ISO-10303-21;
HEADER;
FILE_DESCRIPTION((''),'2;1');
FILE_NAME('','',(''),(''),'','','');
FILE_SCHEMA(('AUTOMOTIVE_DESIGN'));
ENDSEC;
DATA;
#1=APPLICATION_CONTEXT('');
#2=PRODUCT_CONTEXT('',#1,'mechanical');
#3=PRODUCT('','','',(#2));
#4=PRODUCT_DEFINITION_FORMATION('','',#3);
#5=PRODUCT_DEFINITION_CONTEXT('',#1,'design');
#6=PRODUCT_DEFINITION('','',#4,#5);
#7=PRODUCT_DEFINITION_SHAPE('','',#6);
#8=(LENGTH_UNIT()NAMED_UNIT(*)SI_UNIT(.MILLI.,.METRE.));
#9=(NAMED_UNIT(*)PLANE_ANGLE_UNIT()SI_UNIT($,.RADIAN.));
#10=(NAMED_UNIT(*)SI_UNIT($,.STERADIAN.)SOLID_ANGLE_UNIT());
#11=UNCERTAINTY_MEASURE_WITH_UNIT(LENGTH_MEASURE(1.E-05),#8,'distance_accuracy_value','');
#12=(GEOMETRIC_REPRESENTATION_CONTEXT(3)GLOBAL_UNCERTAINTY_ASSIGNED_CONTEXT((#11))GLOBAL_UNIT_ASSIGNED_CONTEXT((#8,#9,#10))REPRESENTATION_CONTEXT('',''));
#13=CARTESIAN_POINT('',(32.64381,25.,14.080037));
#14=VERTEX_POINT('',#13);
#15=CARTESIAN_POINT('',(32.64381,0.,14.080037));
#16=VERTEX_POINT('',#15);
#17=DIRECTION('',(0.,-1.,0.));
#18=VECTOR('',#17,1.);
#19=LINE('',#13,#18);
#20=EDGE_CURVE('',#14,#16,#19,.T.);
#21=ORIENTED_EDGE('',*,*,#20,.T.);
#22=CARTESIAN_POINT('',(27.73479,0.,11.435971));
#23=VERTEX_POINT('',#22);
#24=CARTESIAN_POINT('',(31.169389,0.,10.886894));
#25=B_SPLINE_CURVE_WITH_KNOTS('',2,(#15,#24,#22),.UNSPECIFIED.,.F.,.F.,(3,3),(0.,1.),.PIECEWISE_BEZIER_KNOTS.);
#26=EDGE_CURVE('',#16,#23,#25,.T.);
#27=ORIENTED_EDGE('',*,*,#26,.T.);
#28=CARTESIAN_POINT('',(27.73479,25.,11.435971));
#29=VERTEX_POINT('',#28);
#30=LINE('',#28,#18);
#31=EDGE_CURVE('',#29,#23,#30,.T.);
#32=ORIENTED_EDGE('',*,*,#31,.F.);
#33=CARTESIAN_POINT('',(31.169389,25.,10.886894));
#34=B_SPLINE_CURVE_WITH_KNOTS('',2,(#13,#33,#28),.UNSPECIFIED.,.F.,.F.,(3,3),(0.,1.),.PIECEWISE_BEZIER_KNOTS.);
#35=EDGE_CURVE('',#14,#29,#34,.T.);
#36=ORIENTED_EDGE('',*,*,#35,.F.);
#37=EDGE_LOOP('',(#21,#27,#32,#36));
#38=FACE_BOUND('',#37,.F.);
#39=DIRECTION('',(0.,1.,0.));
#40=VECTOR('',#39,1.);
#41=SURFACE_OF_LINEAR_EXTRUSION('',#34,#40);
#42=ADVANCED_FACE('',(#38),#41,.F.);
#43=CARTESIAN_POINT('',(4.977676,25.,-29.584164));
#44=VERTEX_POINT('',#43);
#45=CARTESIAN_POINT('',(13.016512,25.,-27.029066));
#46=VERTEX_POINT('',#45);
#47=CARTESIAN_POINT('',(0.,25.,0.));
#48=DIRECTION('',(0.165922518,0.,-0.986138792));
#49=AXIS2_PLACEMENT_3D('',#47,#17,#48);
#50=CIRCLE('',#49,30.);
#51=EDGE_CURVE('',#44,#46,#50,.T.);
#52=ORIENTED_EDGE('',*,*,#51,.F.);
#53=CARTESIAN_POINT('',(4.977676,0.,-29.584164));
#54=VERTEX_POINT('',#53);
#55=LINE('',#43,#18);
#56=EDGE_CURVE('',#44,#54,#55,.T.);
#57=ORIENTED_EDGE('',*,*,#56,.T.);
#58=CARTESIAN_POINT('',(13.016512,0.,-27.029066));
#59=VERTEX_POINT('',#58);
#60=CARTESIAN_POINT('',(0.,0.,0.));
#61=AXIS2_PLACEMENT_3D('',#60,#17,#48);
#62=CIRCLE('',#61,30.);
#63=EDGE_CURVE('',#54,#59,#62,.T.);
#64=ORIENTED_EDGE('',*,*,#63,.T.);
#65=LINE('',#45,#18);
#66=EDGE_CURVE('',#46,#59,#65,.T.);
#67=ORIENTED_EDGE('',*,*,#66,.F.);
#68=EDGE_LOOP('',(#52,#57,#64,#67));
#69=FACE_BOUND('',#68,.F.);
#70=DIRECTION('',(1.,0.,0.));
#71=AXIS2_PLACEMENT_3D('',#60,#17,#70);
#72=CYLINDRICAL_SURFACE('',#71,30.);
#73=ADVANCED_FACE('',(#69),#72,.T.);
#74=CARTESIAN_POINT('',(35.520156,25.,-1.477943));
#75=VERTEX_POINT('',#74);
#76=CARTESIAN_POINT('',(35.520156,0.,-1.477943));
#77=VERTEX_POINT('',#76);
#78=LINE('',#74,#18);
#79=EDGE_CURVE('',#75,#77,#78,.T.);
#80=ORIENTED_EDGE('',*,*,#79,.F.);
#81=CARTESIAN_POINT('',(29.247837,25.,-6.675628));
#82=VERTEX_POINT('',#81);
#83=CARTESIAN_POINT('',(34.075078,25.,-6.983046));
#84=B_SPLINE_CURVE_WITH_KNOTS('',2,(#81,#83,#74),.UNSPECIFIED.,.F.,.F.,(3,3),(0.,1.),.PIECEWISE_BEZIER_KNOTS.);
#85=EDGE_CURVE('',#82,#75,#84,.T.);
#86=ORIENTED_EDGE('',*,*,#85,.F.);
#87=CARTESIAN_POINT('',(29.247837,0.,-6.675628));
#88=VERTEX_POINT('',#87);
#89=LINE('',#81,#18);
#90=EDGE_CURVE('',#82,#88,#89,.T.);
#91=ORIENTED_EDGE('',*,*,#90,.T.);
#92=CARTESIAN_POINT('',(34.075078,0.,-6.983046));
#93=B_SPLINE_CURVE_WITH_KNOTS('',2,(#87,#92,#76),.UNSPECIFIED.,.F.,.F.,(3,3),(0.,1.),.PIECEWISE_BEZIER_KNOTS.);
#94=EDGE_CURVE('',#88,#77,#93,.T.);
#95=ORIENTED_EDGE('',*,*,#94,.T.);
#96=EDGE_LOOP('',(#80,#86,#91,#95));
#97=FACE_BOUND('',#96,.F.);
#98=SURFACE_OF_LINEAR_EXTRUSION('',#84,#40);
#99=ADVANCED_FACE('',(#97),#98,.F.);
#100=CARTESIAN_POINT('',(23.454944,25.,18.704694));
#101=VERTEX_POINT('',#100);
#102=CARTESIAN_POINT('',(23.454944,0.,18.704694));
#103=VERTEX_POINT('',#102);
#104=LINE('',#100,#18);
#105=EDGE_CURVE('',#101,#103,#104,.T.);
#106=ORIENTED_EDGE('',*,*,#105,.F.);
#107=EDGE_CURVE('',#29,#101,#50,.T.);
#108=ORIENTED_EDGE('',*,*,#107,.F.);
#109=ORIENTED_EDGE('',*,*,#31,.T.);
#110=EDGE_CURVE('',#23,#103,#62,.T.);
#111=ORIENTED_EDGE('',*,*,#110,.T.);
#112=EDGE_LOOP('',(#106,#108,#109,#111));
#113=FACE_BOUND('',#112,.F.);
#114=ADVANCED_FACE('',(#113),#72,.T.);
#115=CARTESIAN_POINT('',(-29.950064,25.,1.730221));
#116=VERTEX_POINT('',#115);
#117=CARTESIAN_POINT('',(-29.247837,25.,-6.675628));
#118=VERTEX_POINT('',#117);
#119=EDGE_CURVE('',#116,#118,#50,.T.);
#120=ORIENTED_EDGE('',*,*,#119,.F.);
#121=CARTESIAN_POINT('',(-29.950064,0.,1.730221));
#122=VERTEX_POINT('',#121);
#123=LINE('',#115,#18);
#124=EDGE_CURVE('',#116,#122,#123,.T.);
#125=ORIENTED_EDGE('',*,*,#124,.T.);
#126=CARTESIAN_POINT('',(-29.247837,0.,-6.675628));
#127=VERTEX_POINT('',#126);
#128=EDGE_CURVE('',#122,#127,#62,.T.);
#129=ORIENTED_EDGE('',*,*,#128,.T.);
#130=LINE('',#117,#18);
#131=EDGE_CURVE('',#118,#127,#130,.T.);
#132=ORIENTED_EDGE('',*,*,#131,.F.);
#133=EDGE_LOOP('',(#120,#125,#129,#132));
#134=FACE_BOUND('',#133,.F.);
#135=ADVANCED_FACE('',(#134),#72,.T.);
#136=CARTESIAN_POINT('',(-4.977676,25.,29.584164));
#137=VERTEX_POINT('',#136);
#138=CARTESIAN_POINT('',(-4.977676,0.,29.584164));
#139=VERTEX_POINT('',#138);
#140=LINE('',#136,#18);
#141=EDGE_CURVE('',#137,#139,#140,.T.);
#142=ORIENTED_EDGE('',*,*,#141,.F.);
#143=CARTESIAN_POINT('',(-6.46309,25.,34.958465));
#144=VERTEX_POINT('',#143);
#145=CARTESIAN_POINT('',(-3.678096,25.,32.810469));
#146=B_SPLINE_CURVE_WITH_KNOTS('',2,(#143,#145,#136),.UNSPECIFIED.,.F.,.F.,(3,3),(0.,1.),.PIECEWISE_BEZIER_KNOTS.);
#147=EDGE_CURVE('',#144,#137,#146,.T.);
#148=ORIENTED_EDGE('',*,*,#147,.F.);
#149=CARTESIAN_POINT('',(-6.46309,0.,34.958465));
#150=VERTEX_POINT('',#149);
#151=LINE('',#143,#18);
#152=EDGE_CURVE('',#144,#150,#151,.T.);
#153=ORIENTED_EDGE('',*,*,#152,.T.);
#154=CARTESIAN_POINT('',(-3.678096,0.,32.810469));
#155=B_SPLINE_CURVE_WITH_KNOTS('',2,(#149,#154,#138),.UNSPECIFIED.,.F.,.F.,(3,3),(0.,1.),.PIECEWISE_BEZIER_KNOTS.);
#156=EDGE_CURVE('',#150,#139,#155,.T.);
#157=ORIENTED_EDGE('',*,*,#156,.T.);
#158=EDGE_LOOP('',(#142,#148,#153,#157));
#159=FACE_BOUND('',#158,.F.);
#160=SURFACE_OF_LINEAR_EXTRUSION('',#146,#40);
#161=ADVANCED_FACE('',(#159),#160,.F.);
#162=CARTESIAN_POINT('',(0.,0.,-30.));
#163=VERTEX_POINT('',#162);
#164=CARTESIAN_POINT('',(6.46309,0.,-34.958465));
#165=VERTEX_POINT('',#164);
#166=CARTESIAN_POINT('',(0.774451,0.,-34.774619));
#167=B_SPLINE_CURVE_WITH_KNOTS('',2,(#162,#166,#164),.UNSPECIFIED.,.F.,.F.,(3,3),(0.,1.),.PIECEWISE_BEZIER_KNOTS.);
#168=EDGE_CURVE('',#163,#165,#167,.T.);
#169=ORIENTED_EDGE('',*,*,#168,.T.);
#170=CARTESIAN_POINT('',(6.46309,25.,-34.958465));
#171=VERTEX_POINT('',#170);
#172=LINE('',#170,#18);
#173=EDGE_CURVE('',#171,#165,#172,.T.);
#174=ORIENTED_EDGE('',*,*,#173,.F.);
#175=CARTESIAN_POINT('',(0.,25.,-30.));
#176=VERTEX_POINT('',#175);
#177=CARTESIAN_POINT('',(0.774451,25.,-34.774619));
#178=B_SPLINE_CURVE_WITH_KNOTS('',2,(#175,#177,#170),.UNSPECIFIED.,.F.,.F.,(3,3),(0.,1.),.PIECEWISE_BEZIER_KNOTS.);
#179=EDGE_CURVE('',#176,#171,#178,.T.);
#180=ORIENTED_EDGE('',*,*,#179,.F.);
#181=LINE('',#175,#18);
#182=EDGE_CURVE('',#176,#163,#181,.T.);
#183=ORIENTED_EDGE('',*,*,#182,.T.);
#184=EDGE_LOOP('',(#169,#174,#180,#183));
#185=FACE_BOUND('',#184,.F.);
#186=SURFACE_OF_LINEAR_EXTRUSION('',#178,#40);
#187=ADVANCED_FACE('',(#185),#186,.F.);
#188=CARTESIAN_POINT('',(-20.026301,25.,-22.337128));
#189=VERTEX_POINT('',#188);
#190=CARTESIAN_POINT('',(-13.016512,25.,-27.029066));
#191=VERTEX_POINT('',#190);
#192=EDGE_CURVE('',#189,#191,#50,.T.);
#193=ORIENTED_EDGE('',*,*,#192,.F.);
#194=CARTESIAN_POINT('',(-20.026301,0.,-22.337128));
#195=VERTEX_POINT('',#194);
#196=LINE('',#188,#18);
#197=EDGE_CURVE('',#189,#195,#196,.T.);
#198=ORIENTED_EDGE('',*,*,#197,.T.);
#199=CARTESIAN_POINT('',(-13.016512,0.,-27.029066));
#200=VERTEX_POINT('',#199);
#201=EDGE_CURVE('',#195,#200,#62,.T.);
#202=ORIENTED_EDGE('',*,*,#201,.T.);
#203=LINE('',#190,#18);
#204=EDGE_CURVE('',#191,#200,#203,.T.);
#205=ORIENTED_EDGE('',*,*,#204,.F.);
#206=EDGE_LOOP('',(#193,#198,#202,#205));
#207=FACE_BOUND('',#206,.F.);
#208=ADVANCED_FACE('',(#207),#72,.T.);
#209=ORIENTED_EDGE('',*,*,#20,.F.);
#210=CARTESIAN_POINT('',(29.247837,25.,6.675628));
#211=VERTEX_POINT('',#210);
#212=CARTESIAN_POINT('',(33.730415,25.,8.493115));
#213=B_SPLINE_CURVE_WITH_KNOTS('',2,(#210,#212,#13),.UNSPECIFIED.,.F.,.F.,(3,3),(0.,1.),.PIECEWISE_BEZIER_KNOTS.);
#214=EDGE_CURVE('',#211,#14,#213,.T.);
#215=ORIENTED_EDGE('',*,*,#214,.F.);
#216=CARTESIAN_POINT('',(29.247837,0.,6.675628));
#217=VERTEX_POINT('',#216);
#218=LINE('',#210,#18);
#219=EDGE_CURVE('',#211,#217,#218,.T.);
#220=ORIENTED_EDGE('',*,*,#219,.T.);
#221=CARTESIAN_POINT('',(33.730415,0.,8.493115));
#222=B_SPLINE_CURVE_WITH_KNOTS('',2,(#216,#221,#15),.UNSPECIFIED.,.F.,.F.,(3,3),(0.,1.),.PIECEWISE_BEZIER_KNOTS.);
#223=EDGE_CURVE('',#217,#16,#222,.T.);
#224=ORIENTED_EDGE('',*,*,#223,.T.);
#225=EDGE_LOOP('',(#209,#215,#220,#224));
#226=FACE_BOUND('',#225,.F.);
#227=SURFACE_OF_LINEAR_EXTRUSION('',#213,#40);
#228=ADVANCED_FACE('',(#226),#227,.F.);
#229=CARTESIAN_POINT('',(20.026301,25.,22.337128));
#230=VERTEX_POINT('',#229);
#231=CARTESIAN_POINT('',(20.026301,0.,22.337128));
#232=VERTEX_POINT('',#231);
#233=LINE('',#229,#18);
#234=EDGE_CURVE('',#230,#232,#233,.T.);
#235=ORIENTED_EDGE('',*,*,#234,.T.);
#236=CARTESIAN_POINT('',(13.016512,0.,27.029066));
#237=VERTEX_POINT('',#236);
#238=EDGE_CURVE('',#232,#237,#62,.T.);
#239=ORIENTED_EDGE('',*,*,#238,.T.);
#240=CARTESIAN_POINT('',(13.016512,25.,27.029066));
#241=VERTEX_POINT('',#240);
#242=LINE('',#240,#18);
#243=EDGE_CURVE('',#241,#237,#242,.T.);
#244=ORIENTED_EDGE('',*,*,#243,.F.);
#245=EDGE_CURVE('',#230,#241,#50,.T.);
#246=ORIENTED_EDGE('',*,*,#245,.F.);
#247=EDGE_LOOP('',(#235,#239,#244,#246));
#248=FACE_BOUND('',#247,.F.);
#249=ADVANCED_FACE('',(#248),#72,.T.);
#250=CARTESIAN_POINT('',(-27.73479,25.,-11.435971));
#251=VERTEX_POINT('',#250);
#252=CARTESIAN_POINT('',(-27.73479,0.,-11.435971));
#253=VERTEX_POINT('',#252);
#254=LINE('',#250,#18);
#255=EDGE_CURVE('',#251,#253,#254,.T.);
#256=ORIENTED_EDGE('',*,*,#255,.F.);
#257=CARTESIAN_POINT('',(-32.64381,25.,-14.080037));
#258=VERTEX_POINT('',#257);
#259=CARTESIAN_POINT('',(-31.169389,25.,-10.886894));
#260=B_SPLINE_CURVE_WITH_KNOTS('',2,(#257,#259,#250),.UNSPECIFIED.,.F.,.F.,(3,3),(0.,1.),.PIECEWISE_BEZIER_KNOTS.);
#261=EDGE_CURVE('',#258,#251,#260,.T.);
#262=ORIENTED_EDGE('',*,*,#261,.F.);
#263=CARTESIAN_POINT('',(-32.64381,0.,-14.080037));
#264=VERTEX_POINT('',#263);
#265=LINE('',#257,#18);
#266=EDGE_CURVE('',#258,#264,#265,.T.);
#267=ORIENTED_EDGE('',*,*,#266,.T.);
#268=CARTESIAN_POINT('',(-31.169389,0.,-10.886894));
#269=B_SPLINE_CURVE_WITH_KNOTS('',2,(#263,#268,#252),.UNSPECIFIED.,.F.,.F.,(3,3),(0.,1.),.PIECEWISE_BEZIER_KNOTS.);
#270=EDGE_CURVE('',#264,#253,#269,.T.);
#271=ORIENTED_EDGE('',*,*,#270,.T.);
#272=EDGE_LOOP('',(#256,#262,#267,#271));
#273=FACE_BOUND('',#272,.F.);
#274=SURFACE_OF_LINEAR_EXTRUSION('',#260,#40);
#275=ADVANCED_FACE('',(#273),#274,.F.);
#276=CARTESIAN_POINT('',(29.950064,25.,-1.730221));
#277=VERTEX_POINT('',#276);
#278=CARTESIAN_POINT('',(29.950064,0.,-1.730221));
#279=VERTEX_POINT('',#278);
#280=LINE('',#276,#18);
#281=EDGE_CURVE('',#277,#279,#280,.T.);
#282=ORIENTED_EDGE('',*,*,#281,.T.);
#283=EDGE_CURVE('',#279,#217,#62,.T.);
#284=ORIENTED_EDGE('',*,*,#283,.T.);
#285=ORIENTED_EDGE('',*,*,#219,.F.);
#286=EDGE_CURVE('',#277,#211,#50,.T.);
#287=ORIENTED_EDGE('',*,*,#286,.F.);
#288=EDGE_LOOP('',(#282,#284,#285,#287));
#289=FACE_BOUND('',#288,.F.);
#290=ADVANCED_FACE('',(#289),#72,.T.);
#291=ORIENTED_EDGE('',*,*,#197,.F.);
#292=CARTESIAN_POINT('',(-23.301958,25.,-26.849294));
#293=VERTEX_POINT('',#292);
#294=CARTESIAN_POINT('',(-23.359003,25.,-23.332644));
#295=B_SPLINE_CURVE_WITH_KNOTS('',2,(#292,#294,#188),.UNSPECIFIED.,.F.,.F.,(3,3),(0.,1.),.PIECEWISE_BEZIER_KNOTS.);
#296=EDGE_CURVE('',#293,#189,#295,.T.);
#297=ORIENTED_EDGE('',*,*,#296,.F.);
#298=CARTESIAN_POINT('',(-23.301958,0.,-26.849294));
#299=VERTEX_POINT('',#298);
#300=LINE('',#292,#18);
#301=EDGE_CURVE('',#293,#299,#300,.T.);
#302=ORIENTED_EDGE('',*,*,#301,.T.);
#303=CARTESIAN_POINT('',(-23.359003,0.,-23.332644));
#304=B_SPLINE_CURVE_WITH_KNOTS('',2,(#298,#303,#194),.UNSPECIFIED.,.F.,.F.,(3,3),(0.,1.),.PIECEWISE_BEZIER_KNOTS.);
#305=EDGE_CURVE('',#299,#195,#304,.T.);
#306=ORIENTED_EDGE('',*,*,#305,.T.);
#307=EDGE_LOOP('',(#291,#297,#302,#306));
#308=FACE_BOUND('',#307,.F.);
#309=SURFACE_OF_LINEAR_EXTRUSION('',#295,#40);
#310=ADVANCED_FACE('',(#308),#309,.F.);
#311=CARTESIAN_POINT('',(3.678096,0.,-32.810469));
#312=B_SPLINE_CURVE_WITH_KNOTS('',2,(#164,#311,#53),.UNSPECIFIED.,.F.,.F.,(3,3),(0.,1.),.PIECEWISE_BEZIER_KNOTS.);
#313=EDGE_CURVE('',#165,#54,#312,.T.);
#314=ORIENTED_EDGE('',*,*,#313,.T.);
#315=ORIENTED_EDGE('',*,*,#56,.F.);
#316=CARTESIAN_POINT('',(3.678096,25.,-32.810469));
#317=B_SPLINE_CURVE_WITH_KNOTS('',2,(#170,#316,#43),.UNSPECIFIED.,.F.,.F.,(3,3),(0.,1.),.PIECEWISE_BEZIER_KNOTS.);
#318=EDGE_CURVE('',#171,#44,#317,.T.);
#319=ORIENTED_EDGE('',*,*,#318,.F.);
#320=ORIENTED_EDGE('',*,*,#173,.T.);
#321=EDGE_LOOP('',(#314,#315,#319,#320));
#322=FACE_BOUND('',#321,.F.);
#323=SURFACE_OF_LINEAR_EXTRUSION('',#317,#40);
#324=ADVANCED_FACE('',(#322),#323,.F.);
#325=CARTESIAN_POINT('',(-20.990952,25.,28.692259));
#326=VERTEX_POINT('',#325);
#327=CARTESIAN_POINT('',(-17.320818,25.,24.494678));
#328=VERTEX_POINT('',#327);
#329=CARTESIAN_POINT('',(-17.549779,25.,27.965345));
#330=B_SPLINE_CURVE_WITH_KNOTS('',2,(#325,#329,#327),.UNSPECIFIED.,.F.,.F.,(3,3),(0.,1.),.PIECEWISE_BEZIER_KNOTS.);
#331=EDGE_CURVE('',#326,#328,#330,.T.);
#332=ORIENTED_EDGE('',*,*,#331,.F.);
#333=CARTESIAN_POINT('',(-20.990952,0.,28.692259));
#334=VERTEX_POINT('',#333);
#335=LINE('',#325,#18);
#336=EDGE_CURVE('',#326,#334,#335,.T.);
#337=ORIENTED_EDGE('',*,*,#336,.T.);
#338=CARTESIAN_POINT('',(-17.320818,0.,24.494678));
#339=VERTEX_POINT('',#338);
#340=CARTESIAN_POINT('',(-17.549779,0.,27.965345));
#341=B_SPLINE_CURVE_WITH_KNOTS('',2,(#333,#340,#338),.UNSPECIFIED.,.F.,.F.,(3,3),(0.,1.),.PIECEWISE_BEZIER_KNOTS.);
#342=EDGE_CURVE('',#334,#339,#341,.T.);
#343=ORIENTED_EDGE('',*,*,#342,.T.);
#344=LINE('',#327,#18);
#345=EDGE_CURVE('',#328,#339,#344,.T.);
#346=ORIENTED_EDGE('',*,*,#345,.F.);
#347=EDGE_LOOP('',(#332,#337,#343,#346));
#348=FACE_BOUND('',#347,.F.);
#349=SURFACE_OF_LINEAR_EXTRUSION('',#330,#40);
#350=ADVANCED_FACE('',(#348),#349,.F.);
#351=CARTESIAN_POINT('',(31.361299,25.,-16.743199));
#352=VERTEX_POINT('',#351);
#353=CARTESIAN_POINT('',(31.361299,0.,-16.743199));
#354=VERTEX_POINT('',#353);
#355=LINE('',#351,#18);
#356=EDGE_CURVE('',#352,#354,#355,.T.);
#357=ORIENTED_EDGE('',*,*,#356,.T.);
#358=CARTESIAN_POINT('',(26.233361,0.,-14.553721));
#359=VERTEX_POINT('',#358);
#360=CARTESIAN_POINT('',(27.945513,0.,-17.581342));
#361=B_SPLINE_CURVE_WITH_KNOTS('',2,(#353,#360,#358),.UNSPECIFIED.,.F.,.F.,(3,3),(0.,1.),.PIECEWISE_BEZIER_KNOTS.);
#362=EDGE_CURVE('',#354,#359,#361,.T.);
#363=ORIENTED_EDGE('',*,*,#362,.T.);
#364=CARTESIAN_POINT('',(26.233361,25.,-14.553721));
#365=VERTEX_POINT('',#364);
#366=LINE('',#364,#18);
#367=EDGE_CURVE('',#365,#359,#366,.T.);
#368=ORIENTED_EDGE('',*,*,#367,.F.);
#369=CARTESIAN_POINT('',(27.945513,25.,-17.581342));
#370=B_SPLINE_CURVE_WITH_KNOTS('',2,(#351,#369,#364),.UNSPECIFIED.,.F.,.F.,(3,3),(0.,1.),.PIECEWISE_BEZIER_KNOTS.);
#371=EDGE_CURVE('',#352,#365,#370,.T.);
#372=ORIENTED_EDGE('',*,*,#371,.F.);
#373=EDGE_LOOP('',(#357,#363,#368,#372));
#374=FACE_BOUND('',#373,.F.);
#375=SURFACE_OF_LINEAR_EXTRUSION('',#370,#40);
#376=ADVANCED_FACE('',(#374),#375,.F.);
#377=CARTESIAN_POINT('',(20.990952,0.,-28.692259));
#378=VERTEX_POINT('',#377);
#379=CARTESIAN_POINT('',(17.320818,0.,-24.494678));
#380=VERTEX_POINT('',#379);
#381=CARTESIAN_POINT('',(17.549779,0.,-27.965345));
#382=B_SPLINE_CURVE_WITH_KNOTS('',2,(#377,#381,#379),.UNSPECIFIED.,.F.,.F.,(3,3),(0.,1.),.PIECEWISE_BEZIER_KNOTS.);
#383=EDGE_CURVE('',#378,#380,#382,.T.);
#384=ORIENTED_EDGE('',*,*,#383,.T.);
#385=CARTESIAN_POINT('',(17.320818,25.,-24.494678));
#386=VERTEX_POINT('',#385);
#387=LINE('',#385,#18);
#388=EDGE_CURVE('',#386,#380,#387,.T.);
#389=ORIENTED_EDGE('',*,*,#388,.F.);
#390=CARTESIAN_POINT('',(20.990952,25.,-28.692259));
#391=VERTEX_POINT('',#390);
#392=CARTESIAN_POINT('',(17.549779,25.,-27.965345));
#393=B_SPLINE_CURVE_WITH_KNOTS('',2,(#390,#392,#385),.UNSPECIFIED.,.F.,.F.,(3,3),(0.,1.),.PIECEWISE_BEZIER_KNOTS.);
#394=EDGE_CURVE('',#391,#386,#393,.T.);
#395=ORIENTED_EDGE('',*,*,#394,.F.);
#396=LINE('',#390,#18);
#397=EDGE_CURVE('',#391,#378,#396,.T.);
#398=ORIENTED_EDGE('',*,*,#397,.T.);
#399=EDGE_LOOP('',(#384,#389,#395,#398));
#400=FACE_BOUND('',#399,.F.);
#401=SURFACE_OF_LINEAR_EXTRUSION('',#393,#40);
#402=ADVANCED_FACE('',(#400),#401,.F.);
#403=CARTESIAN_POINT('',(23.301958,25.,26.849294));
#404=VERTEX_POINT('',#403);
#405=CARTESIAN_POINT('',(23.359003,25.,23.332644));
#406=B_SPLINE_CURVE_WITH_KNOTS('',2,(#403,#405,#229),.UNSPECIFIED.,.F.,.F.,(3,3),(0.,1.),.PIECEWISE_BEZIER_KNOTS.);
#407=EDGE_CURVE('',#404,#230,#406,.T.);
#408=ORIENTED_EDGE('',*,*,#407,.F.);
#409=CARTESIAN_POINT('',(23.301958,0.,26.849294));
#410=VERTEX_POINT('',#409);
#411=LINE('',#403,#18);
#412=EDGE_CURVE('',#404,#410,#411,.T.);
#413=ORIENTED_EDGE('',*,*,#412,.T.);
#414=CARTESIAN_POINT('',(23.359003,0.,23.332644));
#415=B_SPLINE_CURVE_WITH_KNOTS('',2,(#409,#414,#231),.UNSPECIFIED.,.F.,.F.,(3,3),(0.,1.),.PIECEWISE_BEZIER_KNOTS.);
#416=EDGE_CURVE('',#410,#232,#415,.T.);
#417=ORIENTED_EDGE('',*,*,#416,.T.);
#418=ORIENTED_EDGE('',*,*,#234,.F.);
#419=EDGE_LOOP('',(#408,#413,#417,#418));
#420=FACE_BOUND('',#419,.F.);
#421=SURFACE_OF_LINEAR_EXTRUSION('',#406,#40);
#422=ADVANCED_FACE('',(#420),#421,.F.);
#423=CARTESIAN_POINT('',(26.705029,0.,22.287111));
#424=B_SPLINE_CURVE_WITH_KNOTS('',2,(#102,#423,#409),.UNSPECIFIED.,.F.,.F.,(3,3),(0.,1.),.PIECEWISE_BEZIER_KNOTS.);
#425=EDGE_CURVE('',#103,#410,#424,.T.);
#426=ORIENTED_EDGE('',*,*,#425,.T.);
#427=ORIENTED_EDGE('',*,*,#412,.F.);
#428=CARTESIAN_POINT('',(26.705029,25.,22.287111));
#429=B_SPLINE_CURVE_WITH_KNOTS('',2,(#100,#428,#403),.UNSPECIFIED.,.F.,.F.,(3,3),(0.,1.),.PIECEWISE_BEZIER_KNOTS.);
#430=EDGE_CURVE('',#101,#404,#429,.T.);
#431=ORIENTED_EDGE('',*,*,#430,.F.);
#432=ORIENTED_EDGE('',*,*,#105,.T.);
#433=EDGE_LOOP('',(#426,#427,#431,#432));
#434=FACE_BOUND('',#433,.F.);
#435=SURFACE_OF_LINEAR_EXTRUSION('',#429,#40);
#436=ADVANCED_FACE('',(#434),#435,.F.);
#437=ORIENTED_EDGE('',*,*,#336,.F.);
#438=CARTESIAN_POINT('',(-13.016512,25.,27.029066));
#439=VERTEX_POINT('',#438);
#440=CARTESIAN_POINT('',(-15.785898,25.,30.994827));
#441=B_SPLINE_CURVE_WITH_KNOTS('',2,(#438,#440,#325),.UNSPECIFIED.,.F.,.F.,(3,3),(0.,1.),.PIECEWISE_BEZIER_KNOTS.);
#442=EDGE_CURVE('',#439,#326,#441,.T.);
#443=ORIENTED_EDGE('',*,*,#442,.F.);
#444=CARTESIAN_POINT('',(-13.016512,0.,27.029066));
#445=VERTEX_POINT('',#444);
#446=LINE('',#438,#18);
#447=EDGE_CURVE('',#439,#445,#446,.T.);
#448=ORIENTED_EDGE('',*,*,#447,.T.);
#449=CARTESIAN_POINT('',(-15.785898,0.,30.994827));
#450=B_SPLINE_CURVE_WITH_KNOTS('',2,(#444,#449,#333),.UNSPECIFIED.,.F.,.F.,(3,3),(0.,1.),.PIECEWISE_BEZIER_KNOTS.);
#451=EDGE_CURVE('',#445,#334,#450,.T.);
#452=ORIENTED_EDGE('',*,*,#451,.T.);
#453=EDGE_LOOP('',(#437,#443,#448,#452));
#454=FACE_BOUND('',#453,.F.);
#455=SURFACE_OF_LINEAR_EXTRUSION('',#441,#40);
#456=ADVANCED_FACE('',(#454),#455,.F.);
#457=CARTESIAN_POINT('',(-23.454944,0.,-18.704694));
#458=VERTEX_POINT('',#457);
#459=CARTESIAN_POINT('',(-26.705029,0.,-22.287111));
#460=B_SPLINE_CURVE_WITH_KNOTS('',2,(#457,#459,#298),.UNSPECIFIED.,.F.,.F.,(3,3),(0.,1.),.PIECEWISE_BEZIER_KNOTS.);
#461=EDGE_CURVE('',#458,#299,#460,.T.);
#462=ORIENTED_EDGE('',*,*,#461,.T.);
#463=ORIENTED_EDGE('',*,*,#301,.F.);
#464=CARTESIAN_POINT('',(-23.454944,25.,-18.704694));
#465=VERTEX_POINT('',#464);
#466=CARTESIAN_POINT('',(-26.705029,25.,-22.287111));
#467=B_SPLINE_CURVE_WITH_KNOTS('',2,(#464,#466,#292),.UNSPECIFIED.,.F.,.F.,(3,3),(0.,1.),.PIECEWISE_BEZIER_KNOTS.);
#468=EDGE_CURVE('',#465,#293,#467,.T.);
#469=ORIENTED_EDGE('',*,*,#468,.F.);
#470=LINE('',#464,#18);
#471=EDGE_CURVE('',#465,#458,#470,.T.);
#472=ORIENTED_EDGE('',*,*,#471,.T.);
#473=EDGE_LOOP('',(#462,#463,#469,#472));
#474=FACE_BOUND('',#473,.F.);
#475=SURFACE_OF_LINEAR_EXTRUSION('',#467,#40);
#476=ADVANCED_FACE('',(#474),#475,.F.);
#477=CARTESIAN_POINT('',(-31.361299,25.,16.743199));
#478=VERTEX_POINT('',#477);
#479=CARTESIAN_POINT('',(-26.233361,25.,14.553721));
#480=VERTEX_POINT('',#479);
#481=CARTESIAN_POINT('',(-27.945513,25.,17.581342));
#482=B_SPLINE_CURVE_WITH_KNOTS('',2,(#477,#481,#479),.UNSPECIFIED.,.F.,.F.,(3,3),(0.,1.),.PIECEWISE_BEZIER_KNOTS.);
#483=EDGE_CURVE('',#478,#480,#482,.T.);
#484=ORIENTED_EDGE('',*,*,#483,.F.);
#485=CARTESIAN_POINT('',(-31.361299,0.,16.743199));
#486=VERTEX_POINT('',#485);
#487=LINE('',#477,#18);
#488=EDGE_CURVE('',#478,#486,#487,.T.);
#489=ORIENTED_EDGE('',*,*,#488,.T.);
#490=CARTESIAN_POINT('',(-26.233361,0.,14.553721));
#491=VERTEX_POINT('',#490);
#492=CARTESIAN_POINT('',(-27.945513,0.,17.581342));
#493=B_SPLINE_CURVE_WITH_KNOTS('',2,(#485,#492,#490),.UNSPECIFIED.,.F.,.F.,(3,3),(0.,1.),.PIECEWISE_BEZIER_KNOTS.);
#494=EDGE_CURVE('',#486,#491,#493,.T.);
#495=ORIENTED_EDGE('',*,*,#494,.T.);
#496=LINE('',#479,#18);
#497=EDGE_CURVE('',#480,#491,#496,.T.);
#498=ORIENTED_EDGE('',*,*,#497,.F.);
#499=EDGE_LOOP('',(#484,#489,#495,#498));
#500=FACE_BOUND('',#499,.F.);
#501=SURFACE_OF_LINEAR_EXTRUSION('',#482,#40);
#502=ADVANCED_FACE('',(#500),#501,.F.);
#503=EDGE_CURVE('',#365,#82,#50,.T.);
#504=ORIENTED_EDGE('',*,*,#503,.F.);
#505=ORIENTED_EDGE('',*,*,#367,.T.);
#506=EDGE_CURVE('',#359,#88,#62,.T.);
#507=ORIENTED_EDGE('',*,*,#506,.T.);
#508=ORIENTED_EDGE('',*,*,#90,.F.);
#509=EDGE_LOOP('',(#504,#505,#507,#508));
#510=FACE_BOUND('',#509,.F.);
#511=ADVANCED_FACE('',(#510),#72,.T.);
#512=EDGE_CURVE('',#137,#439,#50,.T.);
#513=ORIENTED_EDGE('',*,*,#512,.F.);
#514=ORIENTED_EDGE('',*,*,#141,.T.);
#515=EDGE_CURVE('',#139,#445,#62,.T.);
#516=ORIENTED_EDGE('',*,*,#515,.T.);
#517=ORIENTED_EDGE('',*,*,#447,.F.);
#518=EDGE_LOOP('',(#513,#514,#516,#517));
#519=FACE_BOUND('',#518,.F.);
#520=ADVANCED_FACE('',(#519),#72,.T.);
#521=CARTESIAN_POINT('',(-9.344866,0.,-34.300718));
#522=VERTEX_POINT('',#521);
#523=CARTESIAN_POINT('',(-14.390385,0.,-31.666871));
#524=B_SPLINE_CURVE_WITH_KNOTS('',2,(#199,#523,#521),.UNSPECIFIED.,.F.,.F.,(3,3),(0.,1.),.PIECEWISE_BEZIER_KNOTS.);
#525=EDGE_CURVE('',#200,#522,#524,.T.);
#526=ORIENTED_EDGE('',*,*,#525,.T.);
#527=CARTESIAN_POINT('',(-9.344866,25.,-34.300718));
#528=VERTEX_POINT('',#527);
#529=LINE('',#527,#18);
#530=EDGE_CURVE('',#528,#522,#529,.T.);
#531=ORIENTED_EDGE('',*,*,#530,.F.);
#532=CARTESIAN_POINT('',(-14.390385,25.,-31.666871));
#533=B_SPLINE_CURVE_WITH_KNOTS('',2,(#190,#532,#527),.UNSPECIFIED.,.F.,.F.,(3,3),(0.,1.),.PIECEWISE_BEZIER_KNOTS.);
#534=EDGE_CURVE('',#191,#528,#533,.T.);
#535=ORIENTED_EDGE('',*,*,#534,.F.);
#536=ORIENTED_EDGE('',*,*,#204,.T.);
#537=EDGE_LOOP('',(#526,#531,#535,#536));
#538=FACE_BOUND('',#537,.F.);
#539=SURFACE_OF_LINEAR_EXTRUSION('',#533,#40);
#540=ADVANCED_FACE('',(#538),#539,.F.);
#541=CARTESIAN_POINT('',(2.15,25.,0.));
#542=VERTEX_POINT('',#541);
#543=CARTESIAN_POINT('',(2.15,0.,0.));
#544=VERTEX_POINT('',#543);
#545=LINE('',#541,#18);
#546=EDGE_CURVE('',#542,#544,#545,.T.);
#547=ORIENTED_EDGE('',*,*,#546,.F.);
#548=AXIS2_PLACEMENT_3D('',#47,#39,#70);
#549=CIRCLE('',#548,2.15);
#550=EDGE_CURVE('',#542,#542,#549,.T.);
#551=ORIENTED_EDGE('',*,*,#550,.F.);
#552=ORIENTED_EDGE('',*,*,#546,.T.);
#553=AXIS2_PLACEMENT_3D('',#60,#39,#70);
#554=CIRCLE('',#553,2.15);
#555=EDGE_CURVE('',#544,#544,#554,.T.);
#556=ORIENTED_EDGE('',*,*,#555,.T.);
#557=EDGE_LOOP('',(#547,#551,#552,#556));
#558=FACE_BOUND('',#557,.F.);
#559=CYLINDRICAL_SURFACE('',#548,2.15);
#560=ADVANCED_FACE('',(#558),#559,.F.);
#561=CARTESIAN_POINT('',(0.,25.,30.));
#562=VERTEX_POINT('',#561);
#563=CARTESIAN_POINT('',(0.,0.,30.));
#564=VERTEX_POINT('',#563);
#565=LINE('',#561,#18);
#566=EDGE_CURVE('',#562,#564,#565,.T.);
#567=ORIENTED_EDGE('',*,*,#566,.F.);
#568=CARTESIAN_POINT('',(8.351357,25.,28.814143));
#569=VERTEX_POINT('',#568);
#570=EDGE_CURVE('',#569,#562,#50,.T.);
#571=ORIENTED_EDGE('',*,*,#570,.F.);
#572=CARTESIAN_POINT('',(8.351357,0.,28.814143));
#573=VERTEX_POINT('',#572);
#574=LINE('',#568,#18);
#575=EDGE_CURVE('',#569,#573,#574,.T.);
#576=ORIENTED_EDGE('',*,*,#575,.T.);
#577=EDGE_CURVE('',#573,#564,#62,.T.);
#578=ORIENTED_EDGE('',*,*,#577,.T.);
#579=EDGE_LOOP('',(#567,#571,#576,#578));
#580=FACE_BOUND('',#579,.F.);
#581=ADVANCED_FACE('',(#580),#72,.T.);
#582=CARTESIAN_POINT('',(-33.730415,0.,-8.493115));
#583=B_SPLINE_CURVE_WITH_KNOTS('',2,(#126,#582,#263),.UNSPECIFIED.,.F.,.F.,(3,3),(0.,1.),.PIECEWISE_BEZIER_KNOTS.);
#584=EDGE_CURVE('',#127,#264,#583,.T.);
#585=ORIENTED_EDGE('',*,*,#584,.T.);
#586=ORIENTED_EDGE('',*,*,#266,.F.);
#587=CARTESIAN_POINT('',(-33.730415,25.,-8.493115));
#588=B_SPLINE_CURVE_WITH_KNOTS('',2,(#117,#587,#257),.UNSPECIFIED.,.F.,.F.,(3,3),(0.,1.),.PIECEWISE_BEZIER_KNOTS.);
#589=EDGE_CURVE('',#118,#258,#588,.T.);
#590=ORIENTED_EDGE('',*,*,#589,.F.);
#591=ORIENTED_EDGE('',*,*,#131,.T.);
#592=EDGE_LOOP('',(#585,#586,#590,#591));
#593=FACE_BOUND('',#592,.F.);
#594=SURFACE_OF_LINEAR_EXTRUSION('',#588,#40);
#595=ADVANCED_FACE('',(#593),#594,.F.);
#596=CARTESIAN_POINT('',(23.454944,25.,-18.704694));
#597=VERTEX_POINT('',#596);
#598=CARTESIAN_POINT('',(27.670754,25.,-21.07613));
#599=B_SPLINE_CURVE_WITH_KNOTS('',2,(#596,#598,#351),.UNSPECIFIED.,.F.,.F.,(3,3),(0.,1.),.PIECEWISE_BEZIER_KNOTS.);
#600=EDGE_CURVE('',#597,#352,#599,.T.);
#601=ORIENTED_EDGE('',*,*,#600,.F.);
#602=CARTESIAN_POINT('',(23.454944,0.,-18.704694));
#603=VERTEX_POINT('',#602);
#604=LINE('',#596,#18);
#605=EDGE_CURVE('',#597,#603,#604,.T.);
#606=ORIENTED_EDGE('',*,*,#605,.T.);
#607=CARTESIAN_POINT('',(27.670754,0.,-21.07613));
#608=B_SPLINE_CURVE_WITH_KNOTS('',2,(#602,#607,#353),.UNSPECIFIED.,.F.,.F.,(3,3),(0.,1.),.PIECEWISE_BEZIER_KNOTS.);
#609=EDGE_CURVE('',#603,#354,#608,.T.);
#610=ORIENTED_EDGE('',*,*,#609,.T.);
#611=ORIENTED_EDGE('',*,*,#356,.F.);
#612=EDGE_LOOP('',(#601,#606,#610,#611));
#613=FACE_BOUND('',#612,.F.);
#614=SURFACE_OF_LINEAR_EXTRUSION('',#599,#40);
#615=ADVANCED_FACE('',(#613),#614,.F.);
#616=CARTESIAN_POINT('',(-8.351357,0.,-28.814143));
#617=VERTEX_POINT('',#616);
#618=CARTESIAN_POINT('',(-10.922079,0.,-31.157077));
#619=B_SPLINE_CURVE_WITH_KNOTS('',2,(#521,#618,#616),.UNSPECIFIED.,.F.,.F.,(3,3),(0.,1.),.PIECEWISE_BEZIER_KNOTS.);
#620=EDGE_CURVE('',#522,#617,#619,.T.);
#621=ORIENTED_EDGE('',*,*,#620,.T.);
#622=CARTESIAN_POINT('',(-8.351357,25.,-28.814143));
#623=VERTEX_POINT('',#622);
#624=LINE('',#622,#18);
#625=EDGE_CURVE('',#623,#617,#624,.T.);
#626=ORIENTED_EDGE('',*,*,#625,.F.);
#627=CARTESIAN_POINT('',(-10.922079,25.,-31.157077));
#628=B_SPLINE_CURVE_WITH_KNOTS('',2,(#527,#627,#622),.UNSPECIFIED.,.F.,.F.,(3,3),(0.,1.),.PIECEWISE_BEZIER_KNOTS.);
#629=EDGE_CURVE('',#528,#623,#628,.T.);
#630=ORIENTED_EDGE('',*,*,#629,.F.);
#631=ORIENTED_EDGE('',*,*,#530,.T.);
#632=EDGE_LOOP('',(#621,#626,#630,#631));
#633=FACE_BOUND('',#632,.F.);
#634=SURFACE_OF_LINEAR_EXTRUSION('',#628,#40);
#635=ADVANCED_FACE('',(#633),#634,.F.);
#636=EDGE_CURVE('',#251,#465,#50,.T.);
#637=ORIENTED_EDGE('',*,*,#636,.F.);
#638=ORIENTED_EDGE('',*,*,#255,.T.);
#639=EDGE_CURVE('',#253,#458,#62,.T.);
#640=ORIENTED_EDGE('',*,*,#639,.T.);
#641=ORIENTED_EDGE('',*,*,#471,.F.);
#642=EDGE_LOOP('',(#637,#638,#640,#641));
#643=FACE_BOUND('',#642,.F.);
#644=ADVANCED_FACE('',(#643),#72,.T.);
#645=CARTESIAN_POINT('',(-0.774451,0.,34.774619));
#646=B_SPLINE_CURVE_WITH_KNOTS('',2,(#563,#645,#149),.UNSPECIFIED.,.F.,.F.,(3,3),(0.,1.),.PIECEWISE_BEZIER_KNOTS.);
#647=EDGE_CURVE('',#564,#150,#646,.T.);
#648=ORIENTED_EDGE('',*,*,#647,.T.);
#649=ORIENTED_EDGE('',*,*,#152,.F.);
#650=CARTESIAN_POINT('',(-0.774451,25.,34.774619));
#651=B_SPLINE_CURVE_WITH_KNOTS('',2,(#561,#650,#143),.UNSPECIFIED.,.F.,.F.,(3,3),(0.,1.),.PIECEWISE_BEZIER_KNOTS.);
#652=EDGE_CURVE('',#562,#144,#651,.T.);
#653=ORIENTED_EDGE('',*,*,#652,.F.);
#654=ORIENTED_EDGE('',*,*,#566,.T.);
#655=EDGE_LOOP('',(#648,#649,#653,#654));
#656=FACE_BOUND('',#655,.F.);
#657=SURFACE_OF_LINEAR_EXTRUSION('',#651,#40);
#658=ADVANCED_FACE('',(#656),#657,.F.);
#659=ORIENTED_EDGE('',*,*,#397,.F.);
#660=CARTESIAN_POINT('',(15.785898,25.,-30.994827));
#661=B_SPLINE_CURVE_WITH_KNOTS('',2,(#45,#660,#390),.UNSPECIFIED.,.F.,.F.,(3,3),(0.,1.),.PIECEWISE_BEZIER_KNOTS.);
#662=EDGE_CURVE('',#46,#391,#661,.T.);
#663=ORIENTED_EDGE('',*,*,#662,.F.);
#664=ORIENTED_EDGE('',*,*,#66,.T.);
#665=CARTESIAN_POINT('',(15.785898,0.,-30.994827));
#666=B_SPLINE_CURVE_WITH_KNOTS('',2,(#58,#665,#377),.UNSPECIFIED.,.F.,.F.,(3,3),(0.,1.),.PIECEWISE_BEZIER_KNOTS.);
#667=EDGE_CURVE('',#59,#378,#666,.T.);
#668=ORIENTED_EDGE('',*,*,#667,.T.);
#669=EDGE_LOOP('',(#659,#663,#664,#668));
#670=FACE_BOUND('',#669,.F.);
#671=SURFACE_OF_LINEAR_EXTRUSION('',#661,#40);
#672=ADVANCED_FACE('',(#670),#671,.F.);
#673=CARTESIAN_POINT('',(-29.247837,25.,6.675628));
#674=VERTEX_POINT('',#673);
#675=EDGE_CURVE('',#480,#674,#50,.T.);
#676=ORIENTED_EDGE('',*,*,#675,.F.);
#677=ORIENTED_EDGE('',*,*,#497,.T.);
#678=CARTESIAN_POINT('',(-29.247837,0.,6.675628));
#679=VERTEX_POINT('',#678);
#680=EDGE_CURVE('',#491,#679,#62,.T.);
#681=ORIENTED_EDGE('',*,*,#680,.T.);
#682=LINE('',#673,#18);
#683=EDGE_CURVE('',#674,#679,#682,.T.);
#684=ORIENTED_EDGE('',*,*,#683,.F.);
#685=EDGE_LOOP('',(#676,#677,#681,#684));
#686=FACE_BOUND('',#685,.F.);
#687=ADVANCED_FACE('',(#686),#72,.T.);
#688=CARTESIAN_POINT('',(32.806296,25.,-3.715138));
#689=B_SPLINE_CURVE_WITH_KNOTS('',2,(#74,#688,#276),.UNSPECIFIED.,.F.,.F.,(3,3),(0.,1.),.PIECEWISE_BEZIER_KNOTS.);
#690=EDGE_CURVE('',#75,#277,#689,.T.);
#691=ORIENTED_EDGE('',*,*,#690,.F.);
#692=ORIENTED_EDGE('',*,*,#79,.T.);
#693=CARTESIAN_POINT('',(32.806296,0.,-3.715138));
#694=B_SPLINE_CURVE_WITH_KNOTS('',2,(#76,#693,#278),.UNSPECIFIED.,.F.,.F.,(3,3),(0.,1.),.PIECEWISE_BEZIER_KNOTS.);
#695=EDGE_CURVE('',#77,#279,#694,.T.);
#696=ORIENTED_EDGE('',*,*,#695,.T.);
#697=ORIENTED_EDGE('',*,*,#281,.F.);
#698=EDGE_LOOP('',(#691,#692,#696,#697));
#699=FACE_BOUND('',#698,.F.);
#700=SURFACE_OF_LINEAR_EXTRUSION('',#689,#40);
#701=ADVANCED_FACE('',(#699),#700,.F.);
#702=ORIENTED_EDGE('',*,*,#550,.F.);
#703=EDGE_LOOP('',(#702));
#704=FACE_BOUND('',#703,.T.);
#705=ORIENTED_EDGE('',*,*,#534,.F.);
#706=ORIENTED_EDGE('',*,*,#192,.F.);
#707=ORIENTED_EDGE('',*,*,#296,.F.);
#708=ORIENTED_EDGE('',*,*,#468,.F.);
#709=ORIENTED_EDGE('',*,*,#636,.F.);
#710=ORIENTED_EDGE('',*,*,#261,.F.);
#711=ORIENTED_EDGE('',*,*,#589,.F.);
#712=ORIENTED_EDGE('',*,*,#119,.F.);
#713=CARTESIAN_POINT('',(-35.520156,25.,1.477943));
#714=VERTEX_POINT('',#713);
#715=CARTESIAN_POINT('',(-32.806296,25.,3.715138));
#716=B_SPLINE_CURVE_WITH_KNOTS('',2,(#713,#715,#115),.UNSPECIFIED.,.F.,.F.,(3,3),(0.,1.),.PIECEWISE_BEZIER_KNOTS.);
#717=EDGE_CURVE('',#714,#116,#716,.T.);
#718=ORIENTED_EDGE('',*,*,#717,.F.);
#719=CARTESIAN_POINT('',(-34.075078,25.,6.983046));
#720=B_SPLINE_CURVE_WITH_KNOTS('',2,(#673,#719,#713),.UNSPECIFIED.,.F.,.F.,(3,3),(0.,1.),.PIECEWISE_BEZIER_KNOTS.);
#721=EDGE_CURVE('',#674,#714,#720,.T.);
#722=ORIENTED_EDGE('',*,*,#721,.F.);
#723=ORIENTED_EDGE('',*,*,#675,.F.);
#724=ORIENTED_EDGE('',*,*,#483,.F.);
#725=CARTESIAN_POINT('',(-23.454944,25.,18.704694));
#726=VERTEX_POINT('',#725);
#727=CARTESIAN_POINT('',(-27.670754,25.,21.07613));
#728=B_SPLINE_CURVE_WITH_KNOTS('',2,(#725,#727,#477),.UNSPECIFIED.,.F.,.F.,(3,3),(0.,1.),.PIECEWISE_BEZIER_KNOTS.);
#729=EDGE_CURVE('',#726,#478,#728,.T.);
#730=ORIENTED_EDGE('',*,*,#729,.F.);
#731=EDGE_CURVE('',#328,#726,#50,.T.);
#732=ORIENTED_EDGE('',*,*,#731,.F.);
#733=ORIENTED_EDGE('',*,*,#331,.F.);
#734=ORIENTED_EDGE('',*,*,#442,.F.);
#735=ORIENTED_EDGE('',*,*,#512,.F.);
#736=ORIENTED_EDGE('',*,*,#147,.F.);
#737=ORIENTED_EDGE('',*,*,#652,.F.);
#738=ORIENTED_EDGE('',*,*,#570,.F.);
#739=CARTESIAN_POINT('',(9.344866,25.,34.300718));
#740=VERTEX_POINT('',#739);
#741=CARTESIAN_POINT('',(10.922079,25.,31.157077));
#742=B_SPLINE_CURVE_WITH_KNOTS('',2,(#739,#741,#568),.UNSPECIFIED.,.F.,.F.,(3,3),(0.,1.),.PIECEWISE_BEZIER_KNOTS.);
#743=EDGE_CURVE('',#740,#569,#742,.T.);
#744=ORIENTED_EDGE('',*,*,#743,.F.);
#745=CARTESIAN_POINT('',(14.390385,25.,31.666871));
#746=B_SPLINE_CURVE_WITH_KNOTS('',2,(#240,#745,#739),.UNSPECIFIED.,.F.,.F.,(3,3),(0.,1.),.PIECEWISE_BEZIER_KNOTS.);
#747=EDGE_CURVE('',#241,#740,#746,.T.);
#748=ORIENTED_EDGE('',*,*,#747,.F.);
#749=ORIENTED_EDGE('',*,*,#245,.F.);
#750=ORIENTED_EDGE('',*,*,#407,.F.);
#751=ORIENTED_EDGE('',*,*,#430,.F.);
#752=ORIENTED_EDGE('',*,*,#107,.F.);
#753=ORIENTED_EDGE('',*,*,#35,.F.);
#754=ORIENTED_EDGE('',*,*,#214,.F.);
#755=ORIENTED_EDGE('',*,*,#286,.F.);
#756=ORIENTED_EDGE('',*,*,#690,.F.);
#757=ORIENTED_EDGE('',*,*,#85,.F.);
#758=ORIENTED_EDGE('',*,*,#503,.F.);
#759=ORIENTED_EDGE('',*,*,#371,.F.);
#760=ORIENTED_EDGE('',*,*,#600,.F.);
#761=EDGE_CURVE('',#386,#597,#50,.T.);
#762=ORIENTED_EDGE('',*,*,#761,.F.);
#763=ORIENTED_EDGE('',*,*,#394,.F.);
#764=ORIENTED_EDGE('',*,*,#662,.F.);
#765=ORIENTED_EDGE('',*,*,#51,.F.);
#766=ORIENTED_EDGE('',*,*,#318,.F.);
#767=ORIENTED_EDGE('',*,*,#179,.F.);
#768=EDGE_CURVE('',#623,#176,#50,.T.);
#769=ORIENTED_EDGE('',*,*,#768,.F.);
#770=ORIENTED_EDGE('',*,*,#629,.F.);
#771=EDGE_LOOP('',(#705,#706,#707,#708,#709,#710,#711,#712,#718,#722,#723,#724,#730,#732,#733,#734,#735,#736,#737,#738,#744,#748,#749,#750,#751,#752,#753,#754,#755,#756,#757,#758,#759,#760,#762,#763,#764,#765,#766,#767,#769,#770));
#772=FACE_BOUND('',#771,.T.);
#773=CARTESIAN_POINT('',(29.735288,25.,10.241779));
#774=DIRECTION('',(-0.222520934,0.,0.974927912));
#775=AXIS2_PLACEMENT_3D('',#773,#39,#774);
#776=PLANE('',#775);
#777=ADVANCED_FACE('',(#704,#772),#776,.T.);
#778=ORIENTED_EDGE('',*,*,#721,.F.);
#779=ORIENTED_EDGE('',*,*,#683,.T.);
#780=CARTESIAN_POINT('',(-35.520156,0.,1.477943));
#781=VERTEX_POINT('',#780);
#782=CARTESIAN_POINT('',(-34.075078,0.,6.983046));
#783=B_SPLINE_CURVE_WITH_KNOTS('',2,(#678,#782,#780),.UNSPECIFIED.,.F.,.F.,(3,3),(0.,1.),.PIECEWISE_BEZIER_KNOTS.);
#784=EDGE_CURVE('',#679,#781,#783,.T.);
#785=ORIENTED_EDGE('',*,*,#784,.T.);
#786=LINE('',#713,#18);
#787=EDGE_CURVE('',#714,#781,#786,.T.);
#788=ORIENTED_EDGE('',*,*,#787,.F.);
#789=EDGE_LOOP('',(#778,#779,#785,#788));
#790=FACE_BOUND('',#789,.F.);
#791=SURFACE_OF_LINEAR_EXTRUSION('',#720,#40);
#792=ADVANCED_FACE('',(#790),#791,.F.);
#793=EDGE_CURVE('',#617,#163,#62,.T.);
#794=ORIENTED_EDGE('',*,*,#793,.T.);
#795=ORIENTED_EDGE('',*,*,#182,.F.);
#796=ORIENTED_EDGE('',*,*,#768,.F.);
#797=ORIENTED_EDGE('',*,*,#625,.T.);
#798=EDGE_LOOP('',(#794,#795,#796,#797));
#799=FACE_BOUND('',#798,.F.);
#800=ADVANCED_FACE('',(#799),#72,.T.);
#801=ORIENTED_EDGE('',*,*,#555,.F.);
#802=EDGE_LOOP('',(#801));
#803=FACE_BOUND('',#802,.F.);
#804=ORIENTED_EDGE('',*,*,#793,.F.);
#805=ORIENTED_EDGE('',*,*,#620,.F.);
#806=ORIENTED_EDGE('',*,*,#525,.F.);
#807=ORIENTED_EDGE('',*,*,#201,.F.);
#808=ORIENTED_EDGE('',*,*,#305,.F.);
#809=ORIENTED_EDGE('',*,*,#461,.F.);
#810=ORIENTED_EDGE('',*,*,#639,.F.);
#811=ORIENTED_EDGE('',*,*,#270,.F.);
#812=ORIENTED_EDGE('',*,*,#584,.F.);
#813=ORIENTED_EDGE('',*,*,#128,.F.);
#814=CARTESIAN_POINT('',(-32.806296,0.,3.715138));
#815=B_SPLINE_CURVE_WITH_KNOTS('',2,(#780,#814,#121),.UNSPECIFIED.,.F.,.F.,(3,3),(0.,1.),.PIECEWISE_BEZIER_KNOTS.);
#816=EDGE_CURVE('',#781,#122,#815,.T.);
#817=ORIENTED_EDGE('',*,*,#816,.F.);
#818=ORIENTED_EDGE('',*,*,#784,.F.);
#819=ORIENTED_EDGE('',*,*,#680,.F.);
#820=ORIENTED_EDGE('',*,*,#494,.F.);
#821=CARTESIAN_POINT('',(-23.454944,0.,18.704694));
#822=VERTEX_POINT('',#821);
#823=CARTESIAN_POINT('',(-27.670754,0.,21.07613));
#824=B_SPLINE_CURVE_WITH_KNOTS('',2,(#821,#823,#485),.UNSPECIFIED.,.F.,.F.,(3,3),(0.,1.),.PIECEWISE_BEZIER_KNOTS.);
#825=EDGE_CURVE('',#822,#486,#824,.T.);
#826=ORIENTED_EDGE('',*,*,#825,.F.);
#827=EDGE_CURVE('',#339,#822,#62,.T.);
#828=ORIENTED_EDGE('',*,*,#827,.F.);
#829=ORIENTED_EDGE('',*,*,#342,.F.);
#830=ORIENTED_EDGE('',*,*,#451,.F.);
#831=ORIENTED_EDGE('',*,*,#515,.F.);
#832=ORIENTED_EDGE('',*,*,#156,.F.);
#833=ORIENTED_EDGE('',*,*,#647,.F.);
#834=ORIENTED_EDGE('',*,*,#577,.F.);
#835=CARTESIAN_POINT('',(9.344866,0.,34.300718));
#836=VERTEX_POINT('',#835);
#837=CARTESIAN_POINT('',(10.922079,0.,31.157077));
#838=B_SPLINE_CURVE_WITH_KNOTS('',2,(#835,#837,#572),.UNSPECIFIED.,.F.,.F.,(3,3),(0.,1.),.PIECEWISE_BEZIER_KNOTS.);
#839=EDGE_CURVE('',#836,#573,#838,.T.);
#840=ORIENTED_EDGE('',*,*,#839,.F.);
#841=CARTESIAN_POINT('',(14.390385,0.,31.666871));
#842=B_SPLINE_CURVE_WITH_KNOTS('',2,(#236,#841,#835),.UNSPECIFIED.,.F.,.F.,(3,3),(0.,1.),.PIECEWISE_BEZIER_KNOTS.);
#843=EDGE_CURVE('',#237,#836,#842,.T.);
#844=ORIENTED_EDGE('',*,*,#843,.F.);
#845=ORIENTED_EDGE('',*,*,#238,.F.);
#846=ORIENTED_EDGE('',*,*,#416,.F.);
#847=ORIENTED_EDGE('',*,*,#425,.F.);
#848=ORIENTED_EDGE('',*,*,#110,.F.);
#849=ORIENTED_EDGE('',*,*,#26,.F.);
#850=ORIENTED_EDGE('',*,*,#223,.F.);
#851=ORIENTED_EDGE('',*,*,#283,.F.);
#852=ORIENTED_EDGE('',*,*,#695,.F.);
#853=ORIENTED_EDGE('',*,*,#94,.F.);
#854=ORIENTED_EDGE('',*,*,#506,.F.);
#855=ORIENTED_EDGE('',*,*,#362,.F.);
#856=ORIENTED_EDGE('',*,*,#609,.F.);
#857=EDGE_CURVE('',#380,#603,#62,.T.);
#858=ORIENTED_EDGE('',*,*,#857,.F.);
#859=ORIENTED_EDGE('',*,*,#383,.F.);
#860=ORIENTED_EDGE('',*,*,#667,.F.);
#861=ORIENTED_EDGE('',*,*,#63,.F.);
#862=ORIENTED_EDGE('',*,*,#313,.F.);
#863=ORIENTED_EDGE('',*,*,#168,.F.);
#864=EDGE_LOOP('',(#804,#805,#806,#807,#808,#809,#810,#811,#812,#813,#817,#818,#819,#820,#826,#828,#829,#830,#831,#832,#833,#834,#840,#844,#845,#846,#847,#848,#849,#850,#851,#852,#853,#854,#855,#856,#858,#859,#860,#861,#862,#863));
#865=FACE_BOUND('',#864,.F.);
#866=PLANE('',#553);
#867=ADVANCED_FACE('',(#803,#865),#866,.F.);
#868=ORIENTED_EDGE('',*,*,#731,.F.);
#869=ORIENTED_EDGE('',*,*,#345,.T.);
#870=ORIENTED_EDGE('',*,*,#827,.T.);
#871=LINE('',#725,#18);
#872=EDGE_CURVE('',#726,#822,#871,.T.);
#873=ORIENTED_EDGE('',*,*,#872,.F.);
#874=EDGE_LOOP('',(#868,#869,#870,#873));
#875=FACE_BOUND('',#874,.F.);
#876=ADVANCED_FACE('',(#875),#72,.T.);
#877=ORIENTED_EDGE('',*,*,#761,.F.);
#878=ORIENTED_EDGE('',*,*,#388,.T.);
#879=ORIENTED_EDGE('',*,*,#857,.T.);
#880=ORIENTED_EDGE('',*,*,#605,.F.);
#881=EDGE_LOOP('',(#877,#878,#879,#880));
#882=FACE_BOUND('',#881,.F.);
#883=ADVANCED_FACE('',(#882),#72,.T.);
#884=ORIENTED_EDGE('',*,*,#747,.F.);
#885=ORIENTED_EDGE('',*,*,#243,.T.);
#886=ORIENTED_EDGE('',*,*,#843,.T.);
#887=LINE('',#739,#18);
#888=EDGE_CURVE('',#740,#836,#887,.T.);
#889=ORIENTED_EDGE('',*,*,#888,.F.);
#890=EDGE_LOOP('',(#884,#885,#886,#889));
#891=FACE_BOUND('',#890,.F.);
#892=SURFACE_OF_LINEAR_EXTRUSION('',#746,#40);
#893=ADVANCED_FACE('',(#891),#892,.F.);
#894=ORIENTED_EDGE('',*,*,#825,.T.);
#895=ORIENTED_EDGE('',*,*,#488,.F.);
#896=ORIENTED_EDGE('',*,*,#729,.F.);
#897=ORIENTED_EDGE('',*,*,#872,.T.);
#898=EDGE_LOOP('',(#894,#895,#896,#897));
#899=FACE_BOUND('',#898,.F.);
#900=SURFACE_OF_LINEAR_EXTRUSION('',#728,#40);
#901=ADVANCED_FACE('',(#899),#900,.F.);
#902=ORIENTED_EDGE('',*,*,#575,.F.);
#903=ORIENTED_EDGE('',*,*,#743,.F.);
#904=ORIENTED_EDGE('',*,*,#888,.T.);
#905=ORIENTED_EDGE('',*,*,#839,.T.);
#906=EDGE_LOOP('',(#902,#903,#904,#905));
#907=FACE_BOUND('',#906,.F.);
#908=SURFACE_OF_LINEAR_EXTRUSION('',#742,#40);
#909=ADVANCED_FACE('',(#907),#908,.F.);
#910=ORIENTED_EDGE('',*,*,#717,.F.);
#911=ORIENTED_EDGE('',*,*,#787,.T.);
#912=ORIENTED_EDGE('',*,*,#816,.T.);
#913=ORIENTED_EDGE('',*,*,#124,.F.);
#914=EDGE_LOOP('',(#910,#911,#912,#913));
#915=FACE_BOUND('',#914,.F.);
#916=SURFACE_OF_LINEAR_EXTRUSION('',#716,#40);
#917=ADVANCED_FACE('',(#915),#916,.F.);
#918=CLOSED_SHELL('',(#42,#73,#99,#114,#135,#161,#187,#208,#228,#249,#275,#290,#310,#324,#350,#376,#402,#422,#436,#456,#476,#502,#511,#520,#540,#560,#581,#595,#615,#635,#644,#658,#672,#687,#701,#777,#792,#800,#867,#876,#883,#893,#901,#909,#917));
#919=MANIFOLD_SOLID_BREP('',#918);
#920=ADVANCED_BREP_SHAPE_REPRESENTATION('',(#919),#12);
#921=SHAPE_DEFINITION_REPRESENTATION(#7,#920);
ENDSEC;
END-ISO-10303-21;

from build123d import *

# Parameters (mm, degrees)
SKETCH1_R           = 30
BOSS_EXTRUDE1_DEPTH = 25
SKETCH2_R           = 2.15
CUT_EXTRUDE1_DEPTH  = 26
BOSS_EXTRUDE2_DEPTH = 25
CIRPATTERN1_COUNT   = 14


with BuildPart() as part:
    # Sketch1 → Boss-Extrude1 (new body)
    with BuildSketch(Plane(origin=(0, 0, 0), x_dir=(1, 0, 0), z_dir=(0, 1, 0))):
        Circle(SKETCH1_R)
    extrude(amount=BOSS_EXTRUDE1_DEPTH)

    # Sketch2 → Cut-Extrude1 (cut, through all)
    with BuildSketch(Plane(origin=(0, 25, 0), x_dir=(1, 0, 0), z_dir=(0, 1, 0))):
        Circle(SKETCH2_R)
    extrude(amount=-CUT_EXTRUDE1_DEPTH, mode=Mode.SUBTRACT)

    # Sketch3 → Boss-Extrude2 (add, through all)
    with BuildSketch(Plane(origin=(0, 25, 0), x_dir=(1, 0, 0), z_dir=(0, 1, 0))):
        with BuildLine():
            Line((0, 30), (3.378956964, 26.809860285))
            Line((3.378956964, 26.809860285), (4.977675541, 29.584163774))
            add(Edge.make_bspline(
                [(6.463090103, 34.958464686), (3.678095749, 32.81046922), (4.977675541, 29.584163774)],
                knots=[0, 0, 0, 1, 1, 1], degree=2))
            add(Edge.make_bspline(
                [(0, 30), (0.774451362, 34.774618744), (6.463090103, 34.958464686)],
                knots=[0, 0, 0, 1, 1, 1], degree=2))
        make_face()
    boss_extrude2 = extrude(amount=-BOSS_EXTRUDE2_DEPTH)

    # CirPattern1: Boss-Extrude2 ×14 about axis
    cirpattern1_axis = Axis((0, 0, 0), (0, 1, 0))
    for i in range(1, CIRPATTERN1_COUNT):
        add(boss_extrude2.rotate(cirpattern1_axis, i * 360 / CIRPATTERN1_COUNT))


solid = part.part
